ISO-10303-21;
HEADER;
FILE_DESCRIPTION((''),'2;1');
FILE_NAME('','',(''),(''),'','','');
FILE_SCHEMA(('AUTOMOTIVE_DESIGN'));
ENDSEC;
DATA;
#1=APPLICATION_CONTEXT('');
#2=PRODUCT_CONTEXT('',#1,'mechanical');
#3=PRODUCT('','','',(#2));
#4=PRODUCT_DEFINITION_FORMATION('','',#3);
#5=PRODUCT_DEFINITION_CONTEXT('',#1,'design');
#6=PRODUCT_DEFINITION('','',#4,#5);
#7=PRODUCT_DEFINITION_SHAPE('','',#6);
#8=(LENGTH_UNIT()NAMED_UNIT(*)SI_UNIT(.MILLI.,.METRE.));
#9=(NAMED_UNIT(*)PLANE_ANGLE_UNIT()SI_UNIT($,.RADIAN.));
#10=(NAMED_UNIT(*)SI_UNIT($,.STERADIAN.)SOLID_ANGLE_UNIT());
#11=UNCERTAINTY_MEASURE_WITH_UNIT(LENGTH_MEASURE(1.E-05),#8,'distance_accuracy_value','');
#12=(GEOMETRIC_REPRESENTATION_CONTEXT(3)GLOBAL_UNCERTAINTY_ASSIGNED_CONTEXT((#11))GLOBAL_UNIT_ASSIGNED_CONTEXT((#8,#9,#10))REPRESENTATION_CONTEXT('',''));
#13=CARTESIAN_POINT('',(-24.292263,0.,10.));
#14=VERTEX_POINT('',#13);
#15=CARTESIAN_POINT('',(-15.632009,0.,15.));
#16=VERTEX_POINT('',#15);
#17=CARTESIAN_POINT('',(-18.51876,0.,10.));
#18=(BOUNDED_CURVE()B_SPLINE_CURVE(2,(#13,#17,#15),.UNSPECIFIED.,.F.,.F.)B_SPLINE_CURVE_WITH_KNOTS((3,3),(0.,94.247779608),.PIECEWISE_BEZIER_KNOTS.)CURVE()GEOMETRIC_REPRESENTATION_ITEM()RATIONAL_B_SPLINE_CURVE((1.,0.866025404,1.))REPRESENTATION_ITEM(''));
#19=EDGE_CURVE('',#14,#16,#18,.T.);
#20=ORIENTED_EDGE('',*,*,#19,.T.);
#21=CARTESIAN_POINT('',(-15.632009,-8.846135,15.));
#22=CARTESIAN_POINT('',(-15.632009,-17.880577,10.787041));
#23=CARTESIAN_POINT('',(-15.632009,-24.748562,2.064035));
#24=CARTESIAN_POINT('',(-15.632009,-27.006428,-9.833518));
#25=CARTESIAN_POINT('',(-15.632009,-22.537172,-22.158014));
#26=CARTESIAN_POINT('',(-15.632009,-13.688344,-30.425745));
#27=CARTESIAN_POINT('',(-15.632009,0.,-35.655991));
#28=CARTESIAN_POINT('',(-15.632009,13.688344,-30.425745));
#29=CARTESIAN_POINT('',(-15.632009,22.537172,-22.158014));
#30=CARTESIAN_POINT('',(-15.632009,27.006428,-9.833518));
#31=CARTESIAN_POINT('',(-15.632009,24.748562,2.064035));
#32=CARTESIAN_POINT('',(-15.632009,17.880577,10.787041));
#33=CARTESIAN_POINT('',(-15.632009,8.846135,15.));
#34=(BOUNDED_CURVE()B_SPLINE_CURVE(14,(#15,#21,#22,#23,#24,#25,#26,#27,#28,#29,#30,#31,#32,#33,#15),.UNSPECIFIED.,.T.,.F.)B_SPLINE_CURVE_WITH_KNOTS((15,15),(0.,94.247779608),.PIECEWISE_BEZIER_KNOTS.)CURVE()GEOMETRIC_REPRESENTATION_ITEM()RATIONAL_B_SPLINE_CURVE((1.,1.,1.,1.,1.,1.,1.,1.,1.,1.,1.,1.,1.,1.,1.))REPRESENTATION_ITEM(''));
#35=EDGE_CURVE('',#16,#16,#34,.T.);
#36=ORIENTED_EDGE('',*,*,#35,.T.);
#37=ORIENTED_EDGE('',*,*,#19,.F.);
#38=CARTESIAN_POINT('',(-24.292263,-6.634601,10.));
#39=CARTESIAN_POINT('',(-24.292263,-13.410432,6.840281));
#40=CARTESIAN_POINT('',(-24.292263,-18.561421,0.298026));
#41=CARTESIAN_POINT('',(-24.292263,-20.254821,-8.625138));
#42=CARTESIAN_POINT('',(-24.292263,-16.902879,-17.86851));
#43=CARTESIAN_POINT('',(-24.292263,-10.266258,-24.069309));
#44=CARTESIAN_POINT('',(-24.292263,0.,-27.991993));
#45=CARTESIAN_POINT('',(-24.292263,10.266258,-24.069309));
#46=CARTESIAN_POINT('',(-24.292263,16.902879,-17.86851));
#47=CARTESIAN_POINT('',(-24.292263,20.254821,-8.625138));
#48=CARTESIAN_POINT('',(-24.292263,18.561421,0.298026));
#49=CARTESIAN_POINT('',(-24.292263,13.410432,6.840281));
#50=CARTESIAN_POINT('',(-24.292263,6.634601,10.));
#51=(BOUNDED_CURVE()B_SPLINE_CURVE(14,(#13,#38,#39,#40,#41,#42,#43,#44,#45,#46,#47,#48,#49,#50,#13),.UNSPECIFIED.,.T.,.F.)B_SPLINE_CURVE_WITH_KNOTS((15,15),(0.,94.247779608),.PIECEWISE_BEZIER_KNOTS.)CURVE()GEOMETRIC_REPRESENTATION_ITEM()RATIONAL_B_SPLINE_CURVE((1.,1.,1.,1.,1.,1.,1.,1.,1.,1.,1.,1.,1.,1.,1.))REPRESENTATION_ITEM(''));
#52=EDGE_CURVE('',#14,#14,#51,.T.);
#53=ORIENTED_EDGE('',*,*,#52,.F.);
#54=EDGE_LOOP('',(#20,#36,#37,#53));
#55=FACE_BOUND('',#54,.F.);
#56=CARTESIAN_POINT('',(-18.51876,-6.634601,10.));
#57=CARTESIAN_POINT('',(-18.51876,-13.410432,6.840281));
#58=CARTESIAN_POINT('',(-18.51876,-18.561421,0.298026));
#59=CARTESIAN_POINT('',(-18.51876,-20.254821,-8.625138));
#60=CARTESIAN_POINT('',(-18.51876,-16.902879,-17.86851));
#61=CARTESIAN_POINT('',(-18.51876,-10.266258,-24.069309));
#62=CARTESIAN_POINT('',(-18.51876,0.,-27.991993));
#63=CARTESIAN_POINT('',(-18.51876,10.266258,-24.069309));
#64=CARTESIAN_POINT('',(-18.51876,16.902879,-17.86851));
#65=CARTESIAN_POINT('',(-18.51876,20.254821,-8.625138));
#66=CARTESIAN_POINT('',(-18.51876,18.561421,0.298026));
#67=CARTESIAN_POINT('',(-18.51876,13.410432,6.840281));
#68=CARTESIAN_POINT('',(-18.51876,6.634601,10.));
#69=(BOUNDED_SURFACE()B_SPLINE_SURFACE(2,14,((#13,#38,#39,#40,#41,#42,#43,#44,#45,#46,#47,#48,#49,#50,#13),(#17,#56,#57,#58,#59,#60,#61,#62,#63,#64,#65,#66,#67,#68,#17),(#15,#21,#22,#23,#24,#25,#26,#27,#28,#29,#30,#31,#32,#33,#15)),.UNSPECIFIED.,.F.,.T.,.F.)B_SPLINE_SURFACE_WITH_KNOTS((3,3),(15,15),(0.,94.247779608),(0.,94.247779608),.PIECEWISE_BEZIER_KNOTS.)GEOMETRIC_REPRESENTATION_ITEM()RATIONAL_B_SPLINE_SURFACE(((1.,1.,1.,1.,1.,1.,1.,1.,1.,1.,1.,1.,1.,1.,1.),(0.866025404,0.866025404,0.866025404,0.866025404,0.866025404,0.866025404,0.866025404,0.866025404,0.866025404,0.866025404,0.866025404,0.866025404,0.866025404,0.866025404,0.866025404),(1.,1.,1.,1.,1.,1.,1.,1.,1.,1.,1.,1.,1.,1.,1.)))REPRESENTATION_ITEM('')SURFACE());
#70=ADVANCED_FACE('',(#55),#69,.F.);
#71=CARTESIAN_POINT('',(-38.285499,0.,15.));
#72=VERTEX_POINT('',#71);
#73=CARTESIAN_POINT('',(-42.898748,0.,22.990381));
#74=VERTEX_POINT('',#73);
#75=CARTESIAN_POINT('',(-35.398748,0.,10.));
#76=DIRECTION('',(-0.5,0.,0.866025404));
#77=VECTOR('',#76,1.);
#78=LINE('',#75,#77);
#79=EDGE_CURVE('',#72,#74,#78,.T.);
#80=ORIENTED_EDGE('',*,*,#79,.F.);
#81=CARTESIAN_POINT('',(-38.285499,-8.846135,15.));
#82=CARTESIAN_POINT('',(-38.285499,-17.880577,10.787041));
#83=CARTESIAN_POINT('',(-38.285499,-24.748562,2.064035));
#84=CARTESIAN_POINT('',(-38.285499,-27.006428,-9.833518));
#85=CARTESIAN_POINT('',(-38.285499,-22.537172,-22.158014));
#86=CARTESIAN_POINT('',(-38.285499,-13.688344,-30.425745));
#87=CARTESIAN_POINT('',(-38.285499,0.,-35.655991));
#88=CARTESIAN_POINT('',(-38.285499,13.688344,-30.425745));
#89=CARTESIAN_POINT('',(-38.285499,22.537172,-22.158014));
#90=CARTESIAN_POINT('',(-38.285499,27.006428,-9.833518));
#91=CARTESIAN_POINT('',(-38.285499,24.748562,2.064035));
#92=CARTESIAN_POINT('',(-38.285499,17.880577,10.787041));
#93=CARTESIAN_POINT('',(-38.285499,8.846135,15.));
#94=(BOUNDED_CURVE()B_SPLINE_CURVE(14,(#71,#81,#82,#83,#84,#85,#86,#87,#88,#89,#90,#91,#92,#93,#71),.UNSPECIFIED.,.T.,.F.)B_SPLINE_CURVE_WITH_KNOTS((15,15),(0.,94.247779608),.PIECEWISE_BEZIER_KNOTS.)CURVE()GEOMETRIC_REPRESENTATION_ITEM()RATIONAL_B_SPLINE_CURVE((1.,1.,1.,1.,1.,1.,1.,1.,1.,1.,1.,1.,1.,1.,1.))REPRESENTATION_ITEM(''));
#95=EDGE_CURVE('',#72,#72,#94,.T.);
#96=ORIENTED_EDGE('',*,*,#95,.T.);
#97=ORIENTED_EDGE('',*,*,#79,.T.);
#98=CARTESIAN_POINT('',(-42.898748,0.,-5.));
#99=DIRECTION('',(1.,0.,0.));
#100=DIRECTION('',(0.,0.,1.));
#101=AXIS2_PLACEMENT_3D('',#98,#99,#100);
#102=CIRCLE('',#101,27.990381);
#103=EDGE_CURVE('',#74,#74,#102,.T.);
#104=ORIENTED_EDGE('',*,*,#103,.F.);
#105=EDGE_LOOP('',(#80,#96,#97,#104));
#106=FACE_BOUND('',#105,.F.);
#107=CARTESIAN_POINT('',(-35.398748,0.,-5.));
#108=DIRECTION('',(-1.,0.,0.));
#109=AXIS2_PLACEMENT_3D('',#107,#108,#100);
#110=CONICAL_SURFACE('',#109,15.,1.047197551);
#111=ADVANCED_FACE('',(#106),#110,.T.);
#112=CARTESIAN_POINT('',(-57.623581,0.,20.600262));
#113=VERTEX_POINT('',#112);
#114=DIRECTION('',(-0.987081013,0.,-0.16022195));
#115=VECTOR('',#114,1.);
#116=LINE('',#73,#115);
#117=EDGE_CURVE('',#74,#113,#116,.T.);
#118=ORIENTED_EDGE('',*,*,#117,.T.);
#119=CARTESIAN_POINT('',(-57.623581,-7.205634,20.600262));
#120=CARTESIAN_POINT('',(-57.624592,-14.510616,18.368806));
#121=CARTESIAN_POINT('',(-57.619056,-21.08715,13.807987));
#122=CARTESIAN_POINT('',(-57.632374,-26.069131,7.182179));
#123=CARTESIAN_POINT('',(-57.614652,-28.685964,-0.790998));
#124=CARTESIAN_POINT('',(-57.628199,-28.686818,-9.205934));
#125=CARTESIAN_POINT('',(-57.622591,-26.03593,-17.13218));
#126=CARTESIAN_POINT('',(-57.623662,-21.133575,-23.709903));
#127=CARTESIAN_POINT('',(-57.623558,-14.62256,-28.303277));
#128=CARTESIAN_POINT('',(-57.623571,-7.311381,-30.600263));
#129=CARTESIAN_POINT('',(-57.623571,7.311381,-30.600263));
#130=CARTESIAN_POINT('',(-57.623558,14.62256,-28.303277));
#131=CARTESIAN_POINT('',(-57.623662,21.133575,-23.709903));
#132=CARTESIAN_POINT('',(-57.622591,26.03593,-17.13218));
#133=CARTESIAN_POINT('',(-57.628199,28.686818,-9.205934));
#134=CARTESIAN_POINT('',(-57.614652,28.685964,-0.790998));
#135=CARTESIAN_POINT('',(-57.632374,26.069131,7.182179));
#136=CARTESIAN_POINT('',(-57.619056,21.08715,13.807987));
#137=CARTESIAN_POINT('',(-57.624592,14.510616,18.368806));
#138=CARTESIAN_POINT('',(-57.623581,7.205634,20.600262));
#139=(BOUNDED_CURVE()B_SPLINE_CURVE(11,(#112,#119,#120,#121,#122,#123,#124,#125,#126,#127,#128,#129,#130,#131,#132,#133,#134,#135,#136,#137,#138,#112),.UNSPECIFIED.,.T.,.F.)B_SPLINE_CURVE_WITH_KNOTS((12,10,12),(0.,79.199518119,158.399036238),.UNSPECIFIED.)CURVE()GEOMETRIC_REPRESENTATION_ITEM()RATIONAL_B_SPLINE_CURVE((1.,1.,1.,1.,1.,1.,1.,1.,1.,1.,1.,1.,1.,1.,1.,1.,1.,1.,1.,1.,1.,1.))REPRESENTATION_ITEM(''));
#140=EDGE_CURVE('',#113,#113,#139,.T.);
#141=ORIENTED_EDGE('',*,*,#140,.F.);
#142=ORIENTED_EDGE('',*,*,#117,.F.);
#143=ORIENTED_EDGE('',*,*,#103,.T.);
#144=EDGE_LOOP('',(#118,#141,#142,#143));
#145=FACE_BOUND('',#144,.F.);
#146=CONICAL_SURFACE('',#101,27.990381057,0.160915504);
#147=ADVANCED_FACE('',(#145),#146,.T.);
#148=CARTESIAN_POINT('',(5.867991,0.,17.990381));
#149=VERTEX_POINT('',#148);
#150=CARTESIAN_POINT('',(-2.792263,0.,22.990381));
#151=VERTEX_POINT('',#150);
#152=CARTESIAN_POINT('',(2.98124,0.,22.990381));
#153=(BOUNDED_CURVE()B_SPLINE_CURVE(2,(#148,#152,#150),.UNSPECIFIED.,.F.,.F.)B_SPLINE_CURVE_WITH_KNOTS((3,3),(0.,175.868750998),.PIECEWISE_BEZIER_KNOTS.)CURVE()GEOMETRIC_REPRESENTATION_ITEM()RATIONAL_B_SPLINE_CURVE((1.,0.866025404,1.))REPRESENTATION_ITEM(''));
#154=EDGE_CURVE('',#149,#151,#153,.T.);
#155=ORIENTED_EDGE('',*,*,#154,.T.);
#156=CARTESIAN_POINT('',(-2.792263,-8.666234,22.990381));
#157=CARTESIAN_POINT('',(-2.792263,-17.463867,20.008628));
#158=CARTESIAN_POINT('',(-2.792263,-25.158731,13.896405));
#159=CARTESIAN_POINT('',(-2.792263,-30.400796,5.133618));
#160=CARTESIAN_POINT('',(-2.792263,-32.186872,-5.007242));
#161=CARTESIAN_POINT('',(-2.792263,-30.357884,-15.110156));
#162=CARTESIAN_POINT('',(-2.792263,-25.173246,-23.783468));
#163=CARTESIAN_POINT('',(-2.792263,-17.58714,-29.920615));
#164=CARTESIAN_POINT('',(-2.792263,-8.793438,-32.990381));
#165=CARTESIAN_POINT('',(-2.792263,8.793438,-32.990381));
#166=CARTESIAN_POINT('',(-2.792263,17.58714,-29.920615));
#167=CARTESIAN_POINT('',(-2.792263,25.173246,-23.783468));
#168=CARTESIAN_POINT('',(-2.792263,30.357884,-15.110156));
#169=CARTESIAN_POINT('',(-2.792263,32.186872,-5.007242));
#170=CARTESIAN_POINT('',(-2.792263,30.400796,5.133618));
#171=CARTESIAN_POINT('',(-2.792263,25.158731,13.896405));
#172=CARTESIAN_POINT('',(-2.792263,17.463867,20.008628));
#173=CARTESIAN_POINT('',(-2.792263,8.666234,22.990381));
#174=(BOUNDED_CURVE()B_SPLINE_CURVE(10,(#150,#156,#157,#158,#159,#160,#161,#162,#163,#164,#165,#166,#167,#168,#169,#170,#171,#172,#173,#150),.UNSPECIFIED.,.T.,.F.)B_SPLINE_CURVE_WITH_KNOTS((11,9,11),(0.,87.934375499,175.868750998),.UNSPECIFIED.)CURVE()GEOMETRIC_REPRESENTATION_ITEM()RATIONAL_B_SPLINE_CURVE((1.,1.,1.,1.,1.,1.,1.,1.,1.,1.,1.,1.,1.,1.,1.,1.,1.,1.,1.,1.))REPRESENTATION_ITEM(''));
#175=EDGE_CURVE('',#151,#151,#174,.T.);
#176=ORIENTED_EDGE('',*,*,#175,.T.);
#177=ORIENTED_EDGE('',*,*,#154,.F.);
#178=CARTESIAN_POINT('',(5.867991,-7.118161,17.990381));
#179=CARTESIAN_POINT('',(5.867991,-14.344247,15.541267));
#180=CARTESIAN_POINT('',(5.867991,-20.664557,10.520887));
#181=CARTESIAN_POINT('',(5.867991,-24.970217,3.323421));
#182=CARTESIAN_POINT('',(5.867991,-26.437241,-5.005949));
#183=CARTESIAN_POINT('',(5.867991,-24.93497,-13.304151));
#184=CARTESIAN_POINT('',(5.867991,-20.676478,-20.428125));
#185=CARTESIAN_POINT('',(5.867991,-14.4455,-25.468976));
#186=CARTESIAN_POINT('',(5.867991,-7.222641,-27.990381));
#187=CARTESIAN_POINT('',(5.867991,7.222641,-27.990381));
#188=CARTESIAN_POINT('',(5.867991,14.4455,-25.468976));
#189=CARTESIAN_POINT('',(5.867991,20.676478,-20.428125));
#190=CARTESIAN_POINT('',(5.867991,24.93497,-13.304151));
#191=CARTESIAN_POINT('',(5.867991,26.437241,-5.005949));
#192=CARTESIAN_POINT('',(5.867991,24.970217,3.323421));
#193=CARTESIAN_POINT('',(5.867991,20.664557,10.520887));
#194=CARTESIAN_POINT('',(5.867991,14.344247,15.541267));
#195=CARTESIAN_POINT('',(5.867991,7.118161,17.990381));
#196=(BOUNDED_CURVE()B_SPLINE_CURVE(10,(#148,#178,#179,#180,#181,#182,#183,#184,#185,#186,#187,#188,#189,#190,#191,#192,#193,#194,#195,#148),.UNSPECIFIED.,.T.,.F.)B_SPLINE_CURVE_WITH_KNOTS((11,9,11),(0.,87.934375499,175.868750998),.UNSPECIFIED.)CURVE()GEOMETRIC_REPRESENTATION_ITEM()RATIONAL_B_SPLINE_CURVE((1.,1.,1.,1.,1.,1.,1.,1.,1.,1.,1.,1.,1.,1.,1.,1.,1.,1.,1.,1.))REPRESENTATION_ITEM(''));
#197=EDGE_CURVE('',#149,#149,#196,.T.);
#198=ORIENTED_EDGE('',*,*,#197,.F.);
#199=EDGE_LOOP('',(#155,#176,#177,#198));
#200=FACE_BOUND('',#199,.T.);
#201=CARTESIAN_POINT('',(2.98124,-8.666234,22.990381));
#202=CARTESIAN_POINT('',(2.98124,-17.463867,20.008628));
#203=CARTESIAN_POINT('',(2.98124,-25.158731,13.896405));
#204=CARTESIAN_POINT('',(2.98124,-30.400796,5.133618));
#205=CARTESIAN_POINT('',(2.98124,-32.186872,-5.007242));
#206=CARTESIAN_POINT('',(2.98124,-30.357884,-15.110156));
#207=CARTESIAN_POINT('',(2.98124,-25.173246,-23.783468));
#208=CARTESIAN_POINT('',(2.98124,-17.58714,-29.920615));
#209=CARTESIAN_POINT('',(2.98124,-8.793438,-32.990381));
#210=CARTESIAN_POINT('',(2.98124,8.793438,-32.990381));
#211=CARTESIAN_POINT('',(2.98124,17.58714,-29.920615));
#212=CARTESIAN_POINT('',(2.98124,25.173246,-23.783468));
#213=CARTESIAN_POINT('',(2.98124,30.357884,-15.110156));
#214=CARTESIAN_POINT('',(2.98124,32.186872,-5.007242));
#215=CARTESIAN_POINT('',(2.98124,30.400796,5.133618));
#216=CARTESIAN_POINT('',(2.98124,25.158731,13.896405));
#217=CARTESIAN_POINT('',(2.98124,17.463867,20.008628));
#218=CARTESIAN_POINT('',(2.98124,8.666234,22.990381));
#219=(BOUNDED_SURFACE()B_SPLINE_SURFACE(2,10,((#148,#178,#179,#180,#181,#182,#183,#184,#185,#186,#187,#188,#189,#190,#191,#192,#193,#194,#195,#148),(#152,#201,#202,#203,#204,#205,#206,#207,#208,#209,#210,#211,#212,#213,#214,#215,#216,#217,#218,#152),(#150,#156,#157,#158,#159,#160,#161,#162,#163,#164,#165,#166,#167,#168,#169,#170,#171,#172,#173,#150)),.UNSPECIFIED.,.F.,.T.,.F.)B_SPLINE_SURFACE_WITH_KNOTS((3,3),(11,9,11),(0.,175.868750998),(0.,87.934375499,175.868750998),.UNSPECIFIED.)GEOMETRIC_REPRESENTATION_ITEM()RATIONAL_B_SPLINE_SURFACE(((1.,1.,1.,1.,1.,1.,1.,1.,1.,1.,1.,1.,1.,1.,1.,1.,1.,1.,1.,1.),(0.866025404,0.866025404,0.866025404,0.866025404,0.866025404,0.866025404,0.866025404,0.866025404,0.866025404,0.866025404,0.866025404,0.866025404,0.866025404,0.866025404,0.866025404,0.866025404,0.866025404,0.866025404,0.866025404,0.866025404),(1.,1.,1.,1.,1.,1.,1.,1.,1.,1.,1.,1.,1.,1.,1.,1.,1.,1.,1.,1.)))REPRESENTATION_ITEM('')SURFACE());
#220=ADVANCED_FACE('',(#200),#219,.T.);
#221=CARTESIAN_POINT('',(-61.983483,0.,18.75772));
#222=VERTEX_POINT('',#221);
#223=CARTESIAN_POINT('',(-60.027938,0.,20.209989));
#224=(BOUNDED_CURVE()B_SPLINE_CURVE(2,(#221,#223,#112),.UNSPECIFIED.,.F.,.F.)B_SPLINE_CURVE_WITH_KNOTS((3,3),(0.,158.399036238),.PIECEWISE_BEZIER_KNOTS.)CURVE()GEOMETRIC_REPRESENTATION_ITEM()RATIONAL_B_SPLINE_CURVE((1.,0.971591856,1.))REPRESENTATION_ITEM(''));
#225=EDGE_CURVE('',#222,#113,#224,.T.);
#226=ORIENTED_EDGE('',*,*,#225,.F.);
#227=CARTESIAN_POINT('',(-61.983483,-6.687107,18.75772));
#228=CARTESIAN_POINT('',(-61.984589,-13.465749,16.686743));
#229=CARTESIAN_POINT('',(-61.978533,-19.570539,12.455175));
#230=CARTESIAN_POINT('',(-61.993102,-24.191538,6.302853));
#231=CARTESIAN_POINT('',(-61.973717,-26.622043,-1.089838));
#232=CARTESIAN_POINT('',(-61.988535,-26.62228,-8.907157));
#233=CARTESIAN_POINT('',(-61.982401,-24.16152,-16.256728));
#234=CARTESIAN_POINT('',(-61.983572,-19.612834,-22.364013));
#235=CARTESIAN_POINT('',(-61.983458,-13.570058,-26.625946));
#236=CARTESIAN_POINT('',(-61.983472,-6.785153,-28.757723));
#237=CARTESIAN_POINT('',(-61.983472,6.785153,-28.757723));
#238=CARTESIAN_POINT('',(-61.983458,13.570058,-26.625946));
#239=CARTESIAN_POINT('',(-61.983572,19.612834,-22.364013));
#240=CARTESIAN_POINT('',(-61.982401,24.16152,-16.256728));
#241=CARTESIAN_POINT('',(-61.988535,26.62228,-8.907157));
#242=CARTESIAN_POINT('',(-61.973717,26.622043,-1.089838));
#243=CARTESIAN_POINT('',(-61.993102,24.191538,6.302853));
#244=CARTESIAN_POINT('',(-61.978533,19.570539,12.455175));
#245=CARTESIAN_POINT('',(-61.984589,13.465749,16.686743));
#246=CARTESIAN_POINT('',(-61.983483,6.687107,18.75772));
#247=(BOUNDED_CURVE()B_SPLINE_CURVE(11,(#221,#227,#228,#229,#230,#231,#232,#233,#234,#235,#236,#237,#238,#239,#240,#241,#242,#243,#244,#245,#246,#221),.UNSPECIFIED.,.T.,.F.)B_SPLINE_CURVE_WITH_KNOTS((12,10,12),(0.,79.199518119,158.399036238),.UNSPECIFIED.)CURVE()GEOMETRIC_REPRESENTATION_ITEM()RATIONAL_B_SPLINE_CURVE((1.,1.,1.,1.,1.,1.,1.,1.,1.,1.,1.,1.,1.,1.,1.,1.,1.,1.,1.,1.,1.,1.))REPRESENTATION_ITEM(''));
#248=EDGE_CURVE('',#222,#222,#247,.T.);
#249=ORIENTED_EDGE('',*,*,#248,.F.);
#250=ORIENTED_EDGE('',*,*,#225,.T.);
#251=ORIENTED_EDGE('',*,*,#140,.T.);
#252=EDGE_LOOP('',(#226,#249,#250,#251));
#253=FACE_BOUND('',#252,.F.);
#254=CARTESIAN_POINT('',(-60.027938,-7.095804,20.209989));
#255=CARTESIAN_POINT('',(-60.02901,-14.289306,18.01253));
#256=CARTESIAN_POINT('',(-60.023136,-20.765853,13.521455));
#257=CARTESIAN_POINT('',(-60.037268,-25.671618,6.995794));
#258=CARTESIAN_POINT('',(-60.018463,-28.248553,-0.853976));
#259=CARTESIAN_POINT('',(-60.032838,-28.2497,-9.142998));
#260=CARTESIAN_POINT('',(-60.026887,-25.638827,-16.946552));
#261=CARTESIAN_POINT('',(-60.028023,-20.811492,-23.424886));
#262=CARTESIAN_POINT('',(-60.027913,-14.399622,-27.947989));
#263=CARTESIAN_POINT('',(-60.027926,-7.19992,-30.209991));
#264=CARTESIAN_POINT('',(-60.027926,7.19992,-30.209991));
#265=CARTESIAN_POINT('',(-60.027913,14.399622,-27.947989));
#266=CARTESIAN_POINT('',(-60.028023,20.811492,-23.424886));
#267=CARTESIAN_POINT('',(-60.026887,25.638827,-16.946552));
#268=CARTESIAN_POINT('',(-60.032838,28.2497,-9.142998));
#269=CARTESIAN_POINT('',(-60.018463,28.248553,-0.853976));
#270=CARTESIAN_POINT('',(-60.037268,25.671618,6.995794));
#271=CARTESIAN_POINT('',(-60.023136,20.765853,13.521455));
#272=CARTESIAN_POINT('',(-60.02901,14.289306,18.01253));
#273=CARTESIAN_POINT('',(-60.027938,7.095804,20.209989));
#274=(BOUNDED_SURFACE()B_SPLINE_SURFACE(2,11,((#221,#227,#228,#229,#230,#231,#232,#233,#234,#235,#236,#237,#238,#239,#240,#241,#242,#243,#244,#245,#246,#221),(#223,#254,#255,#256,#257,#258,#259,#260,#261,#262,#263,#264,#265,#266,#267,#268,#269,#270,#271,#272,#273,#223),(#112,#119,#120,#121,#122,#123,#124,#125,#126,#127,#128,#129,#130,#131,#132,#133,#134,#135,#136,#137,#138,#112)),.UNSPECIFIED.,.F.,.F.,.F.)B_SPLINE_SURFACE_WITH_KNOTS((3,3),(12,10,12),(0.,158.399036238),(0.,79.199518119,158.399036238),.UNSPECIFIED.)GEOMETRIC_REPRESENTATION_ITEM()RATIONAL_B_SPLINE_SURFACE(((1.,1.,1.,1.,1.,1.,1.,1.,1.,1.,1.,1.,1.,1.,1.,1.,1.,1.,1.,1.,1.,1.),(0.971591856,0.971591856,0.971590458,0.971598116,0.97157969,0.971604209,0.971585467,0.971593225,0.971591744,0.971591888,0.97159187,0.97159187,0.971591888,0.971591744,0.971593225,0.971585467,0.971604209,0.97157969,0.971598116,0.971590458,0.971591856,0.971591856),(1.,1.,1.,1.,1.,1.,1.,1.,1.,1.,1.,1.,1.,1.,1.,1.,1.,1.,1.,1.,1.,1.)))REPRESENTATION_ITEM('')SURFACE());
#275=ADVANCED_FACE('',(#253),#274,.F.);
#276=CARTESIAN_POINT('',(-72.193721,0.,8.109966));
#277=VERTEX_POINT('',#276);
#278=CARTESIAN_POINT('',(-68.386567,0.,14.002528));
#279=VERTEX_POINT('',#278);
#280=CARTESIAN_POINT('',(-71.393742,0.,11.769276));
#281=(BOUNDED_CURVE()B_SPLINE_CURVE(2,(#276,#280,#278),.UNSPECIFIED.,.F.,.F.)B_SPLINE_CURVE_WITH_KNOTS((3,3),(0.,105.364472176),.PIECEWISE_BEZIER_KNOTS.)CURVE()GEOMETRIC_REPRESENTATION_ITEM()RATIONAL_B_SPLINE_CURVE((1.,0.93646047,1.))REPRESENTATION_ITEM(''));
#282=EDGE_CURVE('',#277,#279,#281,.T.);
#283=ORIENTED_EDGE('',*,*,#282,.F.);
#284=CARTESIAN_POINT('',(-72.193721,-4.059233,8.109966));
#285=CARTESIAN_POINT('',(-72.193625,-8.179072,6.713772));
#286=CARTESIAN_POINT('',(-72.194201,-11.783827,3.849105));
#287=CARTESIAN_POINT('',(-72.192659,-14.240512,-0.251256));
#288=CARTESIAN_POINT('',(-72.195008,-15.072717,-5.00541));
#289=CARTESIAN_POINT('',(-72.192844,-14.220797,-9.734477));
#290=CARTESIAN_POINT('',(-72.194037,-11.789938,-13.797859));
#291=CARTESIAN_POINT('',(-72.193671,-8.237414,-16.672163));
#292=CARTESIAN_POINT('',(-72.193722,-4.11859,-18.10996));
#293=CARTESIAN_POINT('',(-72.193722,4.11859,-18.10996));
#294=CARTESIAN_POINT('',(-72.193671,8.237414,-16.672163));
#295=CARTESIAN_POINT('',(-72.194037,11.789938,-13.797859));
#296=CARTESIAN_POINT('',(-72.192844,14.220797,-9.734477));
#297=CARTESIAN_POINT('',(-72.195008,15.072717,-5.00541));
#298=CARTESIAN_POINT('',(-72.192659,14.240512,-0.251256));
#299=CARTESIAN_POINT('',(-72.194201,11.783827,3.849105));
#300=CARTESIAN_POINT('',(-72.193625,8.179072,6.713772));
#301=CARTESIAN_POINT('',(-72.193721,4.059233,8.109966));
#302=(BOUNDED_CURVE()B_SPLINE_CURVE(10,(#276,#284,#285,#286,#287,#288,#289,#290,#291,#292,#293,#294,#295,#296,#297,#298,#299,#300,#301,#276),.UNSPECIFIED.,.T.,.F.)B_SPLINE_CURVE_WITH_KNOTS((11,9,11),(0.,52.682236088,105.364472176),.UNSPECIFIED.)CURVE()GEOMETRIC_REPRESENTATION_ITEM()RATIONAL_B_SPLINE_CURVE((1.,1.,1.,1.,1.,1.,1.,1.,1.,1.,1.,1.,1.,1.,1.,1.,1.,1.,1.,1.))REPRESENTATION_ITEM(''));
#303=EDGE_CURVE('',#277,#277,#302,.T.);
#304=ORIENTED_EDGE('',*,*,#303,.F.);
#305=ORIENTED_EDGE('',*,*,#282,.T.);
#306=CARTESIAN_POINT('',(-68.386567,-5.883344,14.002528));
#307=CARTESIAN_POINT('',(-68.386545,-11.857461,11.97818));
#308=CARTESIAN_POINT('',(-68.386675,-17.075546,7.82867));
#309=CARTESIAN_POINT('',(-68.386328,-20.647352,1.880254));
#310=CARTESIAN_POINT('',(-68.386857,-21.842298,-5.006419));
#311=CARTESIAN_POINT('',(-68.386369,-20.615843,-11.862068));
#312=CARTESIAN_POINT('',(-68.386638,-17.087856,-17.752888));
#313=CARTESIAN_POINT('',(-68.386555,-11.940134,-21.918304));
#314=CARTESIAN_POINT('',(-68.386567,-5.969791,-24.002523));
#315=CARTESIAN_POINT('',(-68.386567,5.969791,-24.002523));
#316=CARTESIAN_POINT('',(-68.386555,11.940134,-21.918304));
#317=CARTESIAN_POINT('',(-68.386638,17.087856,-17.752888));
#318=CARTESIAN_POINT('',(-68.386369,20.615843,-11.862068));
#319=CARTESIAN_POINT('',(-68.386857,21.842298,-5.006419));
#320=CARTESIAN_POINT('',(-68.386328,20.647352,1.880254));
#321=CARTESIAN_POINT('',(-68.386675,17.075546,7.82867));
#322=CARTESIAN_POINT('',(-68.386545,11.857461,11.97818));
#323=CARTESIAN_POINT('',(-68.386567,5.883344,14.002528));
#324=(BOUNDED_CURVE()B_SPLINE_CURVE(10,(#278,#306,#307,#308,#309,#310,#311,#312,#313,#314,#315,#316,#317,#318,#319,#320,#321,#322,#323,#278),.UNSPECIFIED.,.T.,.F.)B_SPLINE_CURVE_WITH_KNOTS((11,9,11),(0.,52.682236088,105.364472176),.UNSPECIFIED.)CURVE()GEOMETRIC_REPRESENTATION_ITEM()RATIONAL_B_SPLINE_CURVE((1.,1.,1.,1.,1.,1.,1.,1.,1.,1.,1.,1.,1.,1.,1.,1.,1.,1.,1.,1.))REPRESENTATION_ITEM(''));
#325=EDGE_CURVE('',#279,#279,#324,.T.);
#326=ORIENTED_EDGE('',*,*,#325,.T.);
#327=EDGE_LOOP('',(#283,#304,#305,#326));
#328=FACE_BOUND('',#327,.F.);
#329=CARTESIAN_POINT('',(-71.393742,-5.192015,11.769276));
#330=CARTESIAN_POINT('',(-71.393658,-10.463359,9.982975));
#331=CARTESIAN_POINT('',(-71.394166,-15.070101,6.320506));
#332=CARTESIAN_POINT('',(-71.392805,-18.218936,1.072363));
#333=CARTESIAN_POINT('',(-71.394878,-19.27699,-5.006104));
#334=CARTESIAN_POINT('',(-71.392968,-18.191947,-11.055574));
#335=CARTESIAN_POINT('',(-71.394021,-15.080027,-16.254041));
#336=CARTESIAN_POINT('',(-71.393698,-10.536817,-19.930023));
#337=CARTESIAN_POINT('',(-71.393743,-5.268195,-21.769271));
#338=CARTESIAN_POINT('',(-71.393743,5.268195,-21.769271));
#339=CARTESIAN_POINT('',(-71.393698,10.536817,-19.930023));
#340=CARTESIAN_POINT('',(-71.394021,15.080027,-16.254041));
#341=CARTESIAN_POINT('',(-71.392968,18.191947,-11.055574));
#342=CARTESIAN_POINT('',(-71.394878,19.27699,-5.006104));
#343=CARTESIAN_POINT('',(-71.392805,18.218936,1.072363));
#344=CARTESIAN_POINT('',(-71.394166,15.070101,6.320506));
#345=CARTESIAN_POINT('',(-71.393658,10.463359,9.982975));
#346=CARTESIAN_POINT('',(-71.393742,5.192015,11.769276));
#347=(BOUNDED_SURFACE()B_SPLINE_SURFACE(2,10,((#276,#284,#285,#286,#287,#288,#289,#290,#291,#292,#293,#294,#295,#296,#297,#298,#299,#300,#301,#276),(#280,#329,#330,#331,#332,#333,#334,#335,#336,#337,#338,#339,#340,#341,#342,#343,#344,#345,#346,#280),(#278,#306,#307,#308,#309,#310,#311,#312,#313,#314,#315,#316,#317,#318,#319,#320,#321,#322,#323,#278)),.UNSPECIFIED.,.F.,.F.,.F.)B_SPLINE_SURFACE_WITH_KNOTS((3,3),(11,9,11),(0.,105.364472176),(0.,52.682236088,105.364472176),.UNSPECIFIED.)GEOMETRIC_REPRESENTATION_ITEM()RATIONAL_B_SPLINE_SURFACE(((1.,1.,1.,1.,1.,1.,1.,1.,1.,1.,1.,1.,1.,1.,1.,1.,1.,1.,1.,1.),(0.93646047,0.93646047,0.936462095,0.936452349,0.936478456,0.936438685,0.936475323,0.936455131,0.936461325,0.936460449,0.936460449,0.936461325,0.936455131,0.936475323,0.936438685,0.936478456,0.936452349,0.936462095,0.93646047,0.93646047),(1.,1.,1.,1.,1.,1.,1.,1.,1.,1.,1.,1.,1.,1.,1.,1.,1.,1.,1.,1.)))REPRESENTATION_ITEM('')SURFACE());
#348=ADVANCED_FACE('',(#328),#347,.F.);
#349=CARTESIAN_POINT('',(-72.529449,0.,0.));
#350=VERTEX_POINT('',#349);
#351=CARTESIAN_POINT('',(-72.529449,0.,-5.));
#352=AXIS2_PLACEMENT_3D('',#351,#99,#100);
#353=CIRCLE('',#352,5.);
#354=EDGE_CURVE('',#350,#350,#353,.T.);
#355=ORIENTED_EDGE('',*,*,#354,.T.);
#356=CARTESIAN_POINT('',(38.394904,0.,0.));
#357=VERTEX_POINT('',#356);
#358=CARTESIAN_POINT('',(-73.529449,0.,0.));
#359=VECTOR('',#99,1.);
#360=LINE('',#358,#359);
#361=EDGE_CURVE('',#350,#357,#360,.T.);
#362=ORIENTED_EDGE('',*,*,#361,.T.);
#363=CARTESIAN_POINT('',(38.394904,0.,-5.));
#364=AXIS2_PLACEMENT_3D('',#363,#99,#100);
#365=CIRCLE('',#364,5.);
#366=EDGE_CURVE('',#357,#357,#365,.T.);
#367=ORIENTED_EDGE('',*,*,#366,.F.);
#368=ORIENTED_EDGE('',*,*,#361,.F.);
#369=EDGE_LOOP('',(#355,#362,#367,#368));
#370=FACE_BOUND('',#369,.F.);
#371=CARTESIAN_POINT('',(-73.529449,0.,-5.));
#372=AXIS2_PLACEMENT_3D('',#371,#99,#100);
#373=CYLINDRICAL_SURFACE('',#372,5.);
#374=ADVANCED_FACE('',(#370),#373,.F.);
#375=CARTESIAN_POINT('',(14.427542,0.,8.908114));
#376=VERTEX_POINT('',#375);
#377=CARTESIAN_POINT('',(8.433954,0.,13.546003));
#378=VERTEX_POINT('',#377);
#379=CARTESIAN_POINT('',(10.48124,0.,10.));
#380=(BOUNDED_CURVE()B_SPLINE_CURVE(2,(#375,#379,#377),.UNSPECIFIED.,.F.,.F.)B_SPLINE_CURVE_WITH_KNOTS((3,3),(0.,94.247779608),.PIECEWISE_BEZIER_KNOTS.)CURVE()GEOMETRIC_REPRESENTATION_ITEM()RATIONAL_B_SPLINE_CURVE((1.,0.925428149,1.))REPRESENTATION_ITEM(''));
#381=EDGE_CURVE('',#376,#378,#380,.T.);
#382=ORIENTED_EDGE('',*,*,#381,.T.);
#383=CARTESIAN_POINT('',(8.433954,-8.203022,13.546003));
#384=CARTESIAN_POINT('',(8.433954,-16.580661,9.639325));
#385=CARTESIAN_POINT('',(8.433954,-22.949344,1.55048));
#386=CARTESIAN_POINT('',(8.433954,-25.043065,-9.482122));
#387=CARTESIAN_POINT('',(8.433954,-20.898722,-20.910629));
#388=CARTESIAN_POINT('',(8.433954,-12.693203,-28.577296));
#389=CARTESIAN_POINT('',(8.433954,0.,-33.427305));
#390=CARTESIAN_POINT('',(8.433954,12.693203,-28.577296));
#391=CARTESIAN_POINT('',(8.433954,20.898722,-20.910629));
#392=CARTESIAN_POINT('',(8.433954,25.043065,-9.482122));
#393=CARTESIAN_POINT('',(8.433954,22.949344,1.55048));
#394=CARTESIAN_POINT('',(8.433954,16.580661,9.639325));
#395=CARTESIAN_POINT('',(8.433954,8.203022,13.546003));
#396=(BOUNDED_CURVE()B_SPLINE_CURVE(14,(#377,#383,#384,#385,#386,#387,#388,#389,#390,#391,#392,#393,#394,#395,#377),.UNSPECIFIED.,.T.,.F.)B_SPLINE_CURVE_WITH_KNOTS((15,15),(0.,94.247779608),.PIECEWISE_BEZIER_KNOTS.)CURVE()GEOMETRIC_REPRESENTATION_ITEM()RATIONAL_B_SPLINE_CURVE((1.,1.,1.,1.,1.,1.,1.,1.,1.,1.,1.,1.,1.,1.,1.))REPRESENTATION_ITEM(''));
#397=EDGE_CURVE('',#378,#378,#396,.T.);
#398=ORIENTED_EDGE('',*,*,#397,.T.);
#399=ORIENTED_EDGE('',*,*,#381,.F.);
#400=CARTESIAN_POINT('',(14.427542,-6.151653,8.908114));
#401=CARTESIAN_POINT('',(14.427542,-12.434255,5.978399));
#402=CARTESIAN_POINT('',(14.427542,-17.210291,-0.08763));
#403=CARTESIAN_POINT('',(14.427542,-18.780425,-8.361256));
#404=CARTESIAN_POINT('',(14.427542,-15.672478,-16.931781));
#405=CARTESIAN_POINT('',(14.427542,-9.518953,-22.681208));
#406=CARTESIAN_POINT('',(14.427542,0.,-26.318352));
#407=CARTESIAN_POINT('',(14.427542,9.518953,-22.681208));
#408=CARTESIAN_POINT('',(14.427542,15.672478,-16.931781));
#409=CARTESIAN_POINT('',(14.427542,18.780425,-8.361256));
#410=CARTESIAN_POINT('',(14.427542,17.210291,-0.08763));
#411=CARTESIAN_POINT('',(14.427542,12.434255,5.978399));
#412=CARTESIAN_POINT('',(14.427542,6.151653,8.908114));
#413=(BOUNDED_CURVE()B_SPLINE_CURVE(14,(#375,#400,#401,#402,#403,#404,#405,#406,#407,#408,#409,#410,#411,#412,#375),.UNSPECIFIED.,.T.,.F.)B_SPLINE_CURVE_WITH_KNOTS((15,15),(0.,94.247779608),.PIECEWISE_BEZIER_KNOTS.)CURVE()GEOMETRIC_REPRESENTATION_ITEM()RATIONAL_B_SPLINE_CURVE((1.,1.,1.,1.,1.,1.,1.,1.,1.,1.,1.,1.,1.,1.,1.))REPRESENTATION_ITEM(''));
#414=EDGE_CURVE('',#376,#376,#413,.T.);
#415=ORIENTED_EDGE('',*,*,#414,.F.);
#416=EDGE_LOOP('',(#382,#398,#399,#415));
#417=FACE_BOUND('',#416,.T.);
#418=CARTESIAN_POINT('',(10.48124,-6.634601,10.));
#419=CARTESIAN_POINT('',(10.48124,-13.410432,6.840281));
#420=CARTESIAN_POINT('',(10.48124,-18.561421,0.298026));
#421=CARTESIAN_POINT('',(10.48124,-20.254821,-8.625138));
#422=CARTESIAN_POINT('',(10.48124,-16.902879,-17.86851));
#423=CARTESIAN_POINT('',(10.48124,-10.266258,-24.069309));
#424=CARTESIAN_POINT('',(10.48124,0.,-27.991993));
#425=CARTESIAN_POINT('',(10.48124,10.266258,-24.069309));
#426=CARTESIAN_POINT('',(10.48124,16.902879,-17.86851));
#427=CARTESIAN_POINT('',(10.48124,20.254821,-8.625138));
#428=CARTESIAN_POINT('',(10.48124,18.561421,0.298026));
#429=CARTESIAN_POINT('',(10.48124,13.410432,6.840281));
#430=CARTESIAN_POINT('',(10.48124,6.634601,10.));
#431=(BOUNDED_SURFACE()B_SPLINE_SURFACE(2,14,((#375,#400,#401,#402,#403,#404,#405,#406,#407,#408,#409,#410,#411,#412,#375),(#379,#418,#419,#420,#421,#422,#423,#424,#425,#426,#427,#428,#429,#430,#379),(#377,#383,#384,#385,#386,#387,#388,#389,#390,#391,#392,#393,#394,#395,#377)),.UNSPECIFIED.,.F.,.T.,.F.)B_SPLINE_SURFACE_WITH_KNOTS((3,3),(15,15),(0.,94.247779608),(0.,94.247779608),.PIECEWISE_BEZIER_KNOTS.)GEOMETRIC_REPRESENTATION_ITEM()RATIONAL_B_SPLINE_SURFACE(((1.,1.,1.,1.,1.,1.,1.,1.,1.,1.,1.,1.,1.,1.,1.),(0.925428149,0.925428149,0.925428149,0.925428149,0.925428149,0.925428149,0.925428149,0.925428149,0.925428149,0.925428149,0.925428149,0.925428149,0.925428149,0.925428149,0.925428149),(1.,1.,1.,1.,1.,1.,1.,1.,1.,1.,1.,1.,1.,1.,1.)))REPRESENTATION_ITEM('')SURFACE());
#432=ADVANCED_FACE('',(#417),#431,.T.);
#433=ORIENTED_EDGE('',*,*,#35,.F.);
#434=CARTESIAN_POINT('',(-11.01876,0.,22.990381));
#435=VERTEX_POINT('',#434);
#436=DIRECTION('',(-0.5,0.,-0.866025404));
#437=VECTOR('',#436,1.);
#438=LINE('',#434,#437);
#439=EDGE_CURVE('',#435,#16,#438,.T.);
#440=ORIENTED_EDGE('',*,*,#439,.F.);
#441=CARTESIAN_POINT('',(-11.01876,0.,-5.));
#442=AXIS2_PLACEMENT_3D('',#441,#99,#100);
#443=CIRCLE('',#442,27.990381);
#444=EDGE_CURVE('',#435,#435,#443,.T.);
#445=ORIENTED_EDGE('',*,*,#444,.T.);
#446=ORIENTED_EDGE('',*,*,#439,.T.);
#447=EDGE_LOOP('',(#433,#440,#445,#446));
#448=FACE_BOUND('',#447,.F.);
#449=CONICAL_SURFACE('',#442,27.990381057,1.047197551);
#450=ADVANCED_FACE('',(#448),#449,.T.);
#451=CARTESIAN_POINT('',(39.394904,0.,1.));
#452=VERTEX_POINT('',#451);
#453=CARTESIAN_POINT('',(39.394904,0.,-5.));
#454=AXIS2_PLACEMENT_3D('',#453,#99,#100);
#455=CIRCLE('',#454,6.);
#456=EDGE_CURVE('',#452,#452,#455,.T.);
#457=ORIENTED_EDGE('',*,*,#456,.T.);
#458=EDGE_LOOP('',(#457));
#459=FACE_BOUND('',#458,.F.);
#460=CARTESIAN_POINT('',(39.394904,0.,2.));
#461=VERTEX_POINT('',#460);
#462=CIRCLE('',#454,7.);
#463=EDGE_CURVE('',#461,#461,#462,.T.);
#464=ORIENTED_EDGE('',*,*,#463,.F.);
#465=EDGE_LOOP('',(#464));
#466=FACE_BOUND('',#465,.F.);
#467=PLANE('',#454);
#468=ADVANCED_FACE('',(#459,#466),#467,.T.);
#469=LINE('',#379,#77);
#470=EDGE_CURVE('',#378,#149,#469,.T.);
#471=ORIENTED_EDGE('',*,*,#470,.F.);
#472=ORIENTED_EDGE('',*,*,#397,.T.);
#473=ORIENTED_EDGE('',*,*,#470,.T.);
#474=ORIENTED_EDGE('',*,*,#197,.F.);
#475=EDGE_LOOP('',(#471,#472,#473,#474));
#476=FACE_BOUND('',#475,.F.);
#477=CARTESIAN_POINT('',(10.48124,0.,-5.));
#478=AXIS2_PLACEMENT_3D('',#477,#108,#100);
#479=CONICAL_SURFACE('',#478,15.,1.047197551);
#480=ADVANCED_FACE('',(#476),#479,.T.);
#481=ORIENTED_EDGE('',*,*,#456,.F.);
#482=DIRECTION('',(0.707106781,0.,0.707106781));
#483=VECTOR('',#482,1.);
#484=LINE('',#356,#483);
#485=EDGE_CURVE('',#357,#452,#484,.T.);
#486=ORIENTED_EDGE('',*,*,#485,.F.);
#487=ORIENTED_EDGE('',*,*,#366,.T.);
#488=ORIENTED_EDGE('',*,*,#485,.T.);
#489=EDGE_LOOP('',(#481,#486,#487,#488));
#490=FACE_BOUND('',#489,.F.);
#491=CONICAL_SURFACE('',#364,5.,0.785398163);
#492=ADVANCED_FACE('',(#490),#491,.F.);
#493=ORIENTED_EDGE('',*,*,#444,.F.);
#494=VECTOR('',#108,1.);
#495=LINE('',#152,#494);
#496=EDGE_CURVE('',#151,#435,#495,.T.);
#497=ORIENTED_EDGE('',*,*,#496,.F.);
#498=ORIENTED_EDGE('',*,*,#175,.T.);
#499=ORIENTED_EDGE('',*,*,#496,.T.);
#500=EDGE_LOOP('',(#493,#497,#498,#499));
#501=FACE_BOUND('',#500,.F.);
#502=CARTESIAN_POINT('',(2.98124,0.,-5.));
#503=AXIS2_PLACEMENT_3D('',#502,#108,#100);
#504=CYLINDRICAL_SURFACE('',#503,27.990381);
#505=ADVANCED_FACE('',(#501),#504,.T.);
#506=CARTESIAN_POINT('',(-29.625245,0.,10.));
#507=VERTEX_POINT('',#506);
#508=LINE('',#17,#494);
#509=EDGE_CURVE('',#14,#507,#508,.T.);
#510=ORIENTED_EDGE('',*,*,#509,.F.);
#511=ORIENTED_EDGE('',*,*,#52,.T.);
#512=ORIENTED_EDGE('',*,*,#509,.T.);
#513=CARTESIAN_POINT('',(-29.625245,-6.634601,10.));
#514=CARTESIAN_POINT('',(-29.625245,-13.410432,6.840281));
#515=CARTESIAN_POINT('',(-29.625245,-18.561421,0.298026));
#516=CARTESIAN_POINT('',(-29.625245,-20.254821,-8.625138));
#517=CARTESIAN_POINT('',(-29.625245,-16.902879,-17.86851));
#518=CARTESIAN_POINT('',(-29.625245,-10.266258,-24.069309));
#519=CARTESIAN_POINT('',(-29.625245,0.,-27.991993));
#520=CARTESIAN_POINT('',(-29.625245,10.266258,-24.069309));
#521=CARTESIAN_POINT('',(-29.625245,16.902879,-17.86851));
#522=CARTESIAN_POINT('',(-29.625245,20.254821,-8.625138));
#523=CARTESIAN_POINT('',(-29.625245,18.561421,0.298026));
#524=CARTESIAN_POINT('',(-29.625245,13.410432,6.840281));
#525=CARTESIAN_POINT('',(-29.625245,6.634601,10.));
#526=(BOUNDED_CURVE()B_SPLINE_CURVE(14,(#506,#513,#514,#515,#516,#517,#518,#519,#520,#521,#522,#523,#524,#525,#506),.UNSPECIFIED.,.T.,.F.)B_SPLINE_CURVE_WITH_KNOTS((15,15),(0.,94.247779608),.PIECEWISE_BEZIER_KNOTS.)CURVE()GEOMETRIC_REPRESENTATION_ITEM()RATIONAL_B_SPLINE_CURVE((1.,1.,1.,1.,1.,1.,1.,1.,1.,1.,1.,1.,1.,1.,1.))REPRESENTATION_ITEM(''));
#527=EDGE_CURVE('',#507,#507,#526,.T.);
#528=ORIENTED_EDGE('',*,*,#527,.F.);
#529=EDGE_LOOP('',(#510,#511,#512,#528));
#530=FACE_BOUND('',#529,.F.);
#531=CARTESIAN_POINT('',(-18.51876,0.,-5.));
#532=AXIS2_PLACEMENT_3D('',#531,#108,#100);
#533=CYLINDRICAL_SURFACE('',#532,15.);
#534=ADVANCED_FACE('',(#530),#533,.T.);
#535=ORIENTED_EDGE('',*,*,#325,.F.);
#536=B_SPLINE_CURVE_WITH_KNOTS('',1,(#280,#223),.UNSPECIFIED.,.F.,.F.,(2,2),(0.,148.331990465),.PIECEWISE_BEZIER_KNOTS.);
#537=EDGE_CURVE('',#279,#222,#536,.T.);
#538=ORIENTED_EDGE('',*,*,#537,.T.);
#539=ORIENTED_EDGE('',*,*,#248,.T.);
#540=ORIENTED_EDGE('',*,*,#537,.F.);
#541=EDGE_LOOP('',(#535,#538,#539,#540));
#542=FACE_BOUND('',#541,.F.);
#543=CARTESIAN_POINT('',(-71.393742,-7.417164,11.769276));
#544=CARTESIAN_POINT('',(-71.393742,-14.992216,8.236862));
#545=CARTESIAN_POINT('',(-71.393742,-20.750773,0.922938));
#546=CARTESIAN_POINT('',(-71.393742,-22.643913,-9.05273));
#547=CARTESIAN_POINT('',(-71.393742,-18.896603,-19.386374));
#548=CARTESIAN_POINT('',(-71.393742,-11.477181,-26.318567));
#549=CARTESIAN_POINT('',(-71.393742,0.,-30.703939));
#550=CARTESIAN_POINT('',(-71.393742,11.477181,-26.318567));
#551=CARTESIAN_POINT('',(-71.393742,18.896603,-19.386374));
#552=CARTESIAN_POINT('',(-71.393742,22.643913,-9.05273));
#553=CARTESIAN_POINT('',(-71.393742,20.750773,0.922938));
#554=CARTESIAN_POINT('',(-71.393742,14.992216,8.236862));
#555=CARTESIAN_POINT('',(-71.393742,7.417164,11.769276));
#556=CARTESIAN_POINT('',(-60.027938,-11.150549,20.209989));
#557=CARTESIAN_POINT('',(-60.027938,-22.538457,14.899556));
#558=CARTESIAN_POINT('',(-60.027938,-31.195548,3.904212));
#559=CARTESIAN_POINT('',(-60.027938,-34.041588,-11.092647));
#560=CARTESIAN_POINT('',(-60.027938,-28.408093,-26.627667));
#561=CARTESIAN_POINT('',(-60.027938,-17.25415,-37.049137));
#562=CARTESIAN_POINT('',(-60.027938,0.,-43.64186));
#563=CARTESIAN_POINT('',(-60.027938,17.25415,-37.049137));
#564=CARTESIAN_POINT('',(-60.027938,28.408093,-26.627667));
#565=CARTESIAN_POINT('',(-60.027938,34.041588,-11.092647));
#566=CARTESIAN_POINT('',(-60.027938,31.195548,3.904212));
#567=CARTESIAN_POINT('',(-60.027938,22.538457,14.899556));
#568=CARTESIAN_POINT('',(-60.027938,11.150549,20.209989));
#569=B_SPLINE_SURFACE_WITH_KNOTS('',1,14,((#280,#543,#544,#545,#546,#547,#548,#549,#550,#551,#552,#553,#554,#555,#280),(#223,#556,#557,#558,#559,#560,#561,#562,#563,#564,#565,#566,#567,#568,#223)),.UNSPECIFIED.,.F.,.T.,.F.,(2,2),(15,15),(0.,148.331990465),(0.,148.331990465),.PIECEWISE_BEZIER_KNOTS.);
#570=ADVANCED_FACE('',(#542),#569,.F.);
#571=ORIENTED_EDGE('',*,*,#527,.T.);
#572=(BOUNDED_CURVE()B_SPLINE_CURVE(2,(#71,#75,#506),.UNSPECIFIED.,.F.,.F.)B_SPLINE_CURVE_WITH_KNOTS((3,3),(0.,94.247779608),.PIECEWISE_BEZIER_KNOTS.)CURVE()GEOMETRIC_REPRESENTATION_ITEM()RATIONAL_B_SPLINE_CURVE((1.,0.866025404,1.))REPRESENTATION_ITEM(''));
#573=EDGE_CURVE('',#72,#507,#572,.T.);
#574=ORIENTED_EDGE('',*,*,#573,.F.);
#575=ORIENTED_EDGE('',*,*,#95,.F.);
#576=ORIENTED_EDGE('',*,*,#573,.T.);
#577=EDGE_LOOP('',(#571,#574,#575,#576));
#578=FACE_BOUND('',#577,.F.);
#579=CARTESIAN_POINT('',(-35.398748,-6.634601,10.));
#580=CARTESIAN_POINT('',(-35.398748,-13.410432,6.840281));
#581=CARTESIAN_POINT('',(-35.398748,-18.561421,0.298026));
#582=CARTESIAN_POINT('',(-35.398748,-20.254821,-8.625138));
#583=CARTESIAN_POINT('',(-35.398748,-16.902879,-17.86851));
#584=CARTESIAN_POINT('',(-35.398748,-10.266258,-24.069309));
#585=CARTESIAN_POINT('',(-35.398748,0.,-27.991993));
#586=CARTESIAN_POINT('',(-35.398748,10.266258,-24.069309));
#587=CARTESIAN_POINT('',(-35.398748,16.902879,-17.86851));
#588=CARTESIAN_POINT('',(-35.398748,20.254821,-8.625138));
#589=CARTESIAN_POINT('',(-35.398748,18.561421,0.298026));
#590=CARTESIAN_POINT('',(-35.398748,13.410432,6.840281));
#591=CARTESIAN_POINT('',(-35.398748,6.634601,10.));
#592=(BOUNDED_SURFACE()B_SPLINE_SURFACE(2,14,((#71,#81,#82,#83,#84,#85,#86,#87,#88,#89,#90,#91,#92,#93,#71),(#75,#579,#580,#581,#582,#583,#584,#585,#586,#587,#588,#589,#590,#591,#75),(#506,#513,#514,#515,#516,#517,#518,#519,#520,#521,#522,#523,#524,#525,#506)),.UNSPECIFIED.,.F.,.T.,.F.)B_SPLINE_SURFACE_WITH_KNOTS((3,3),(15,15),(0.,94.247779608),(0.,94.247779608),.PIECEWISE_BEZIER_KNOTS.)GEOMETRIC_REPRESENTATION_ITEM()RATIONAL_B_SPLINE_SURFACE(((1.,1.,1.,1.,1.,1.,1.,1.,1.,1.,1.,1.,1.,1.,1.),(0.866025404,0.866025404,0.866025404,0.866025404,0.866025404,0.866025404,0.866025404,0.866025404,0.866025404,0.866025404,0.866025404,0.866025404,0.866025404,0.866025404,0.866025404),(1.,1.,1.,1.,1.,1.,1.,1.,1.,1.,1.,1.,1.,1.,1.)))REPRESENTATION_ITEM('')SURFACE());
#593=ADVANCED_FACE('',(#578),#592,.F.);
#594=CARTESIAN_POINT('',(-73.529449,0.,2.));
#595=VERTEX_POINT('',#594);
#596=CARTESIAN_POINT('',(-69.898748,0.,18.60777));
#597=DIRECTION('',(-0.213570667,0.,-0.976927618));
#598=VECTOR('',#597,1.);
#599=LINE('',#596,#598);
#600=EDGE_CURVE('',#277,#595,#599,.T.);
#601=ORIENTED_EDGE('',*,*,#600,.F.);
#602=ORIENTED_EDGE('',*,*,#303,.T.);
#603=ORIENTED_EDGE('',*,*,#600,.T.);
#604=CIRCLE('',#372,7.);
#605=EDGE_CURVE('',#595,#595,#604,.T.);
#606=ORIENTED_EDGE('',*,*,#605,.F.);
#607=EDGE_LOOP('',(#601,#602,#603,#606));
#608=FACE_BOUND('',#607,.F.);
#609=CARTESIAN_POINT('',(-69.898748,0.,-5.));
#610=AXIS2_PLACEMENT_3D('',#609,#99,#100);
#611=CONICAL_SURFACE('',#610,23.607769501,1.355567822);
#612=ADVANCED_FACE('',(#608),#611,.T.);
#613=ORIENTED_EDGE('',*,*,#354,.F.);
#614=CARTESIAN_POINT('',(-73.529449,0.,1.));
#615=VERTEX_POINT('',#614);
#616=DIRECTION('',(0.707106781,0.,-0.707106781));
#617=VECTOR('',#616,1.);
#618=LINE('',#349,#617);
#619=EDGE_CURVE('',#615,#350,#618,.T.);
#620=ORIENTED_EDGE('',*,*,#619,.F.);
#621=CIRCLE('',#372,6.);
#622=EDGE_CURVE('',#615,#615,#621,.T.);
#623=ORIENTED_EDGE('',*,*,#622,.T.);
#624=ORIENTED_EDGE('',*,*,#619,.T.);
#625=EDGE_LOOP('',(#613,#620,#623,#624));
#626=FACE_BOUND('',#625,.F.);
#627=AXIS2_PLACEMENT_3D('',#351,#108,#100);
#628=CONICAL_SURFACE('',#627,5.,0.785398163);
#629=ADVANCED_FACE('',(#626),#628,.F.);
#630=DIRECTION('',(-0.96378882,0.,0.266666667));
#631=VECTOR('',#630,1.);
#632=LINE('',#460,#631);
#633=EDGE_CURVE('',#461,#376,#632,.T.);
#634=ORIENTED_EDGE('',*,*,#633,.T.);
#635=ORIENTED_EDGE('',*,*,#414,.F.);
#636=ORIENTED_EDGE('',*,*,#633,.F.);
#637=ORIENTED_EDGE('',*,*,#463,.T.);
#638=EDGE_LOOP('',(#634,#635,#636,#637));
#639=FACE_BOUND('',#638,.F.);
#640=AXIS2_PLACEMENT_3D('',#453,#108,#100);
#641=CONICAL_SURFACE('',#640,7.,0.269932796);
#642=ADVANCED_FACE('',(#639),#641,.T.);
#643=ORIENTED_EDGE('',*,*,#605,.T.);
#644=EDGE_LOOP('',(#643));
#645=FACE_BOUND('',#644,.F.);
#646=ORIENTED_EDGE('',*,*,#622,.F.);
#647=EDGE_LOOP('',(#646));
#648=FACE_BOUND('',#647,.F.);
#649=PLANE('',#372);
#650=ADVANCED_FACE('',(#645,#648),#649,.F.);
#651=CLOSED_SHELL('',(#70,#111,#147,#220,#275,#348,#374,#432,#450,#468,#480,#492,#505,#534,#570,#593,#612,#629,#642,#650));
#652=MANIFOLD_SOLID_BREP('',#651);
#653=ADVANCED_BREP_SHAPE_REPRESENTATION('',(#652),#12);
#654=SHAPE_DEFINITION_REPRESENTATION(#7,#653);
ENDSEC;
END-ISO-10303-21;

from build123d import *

# Parameters (mm, degrees)
F2_SIZE2 = 10
F2_SIZE  = 7
F3_R     = 10
F4_SIZE  = 1


with BuildPart() as f1:
    # F0 (on Front) → F1 (revolve)
    with BuildSketch(Plane.XZ):
        Polygon((-69.8987477026, 18.6077695012), (-73.5294490392, 2), (-73.5294490392, 0), (39.3949043283, 0), (39.3949043283, 2), (10.4812397387, 10), (2.9812397387, 22.9903810568), (-11.0187602613, 22.9903810568), (-18.5187602613, 10), (-35.3987477026, 10), (-42.8987477026, 22.9903810568), align=None)
    revolve(axis=Axis((-13.5878343135, 0, -5), (1, 0, 0)))

    # F2
    f2_edges = [f1.edges().sort_by_distance(p)[0] for p in [
        (-69.898748, 0, -28.60777),
    ]]
    chamfer(f2_edges, length=F2_SIZE, length2=F2_SIZE2)

    # F3
    f3_edges = [f1.edges().sort_by_distance(p)[0] for p in [
        (-35.398748, 0, -20),
        (-18.51876, 0, -20),
        (10.48124, 0, -20),
        (-60.027938, 0, -30.209983),
        (2.98124, 0, -32.990381),
        (-71.393742, 0, -21.769272),
    ]]
    fillet(f3_edges, radius=F3_R)

    # F4
    f4_edges = [f1.edges().sort_by_distance(p)[0] for p in [
        (-73.529449, 0, -10),
        (39.394904, 0, -10),
    ]]
    chamfer(f4_edges, length=F4_SIZE)


solid = f1.part
